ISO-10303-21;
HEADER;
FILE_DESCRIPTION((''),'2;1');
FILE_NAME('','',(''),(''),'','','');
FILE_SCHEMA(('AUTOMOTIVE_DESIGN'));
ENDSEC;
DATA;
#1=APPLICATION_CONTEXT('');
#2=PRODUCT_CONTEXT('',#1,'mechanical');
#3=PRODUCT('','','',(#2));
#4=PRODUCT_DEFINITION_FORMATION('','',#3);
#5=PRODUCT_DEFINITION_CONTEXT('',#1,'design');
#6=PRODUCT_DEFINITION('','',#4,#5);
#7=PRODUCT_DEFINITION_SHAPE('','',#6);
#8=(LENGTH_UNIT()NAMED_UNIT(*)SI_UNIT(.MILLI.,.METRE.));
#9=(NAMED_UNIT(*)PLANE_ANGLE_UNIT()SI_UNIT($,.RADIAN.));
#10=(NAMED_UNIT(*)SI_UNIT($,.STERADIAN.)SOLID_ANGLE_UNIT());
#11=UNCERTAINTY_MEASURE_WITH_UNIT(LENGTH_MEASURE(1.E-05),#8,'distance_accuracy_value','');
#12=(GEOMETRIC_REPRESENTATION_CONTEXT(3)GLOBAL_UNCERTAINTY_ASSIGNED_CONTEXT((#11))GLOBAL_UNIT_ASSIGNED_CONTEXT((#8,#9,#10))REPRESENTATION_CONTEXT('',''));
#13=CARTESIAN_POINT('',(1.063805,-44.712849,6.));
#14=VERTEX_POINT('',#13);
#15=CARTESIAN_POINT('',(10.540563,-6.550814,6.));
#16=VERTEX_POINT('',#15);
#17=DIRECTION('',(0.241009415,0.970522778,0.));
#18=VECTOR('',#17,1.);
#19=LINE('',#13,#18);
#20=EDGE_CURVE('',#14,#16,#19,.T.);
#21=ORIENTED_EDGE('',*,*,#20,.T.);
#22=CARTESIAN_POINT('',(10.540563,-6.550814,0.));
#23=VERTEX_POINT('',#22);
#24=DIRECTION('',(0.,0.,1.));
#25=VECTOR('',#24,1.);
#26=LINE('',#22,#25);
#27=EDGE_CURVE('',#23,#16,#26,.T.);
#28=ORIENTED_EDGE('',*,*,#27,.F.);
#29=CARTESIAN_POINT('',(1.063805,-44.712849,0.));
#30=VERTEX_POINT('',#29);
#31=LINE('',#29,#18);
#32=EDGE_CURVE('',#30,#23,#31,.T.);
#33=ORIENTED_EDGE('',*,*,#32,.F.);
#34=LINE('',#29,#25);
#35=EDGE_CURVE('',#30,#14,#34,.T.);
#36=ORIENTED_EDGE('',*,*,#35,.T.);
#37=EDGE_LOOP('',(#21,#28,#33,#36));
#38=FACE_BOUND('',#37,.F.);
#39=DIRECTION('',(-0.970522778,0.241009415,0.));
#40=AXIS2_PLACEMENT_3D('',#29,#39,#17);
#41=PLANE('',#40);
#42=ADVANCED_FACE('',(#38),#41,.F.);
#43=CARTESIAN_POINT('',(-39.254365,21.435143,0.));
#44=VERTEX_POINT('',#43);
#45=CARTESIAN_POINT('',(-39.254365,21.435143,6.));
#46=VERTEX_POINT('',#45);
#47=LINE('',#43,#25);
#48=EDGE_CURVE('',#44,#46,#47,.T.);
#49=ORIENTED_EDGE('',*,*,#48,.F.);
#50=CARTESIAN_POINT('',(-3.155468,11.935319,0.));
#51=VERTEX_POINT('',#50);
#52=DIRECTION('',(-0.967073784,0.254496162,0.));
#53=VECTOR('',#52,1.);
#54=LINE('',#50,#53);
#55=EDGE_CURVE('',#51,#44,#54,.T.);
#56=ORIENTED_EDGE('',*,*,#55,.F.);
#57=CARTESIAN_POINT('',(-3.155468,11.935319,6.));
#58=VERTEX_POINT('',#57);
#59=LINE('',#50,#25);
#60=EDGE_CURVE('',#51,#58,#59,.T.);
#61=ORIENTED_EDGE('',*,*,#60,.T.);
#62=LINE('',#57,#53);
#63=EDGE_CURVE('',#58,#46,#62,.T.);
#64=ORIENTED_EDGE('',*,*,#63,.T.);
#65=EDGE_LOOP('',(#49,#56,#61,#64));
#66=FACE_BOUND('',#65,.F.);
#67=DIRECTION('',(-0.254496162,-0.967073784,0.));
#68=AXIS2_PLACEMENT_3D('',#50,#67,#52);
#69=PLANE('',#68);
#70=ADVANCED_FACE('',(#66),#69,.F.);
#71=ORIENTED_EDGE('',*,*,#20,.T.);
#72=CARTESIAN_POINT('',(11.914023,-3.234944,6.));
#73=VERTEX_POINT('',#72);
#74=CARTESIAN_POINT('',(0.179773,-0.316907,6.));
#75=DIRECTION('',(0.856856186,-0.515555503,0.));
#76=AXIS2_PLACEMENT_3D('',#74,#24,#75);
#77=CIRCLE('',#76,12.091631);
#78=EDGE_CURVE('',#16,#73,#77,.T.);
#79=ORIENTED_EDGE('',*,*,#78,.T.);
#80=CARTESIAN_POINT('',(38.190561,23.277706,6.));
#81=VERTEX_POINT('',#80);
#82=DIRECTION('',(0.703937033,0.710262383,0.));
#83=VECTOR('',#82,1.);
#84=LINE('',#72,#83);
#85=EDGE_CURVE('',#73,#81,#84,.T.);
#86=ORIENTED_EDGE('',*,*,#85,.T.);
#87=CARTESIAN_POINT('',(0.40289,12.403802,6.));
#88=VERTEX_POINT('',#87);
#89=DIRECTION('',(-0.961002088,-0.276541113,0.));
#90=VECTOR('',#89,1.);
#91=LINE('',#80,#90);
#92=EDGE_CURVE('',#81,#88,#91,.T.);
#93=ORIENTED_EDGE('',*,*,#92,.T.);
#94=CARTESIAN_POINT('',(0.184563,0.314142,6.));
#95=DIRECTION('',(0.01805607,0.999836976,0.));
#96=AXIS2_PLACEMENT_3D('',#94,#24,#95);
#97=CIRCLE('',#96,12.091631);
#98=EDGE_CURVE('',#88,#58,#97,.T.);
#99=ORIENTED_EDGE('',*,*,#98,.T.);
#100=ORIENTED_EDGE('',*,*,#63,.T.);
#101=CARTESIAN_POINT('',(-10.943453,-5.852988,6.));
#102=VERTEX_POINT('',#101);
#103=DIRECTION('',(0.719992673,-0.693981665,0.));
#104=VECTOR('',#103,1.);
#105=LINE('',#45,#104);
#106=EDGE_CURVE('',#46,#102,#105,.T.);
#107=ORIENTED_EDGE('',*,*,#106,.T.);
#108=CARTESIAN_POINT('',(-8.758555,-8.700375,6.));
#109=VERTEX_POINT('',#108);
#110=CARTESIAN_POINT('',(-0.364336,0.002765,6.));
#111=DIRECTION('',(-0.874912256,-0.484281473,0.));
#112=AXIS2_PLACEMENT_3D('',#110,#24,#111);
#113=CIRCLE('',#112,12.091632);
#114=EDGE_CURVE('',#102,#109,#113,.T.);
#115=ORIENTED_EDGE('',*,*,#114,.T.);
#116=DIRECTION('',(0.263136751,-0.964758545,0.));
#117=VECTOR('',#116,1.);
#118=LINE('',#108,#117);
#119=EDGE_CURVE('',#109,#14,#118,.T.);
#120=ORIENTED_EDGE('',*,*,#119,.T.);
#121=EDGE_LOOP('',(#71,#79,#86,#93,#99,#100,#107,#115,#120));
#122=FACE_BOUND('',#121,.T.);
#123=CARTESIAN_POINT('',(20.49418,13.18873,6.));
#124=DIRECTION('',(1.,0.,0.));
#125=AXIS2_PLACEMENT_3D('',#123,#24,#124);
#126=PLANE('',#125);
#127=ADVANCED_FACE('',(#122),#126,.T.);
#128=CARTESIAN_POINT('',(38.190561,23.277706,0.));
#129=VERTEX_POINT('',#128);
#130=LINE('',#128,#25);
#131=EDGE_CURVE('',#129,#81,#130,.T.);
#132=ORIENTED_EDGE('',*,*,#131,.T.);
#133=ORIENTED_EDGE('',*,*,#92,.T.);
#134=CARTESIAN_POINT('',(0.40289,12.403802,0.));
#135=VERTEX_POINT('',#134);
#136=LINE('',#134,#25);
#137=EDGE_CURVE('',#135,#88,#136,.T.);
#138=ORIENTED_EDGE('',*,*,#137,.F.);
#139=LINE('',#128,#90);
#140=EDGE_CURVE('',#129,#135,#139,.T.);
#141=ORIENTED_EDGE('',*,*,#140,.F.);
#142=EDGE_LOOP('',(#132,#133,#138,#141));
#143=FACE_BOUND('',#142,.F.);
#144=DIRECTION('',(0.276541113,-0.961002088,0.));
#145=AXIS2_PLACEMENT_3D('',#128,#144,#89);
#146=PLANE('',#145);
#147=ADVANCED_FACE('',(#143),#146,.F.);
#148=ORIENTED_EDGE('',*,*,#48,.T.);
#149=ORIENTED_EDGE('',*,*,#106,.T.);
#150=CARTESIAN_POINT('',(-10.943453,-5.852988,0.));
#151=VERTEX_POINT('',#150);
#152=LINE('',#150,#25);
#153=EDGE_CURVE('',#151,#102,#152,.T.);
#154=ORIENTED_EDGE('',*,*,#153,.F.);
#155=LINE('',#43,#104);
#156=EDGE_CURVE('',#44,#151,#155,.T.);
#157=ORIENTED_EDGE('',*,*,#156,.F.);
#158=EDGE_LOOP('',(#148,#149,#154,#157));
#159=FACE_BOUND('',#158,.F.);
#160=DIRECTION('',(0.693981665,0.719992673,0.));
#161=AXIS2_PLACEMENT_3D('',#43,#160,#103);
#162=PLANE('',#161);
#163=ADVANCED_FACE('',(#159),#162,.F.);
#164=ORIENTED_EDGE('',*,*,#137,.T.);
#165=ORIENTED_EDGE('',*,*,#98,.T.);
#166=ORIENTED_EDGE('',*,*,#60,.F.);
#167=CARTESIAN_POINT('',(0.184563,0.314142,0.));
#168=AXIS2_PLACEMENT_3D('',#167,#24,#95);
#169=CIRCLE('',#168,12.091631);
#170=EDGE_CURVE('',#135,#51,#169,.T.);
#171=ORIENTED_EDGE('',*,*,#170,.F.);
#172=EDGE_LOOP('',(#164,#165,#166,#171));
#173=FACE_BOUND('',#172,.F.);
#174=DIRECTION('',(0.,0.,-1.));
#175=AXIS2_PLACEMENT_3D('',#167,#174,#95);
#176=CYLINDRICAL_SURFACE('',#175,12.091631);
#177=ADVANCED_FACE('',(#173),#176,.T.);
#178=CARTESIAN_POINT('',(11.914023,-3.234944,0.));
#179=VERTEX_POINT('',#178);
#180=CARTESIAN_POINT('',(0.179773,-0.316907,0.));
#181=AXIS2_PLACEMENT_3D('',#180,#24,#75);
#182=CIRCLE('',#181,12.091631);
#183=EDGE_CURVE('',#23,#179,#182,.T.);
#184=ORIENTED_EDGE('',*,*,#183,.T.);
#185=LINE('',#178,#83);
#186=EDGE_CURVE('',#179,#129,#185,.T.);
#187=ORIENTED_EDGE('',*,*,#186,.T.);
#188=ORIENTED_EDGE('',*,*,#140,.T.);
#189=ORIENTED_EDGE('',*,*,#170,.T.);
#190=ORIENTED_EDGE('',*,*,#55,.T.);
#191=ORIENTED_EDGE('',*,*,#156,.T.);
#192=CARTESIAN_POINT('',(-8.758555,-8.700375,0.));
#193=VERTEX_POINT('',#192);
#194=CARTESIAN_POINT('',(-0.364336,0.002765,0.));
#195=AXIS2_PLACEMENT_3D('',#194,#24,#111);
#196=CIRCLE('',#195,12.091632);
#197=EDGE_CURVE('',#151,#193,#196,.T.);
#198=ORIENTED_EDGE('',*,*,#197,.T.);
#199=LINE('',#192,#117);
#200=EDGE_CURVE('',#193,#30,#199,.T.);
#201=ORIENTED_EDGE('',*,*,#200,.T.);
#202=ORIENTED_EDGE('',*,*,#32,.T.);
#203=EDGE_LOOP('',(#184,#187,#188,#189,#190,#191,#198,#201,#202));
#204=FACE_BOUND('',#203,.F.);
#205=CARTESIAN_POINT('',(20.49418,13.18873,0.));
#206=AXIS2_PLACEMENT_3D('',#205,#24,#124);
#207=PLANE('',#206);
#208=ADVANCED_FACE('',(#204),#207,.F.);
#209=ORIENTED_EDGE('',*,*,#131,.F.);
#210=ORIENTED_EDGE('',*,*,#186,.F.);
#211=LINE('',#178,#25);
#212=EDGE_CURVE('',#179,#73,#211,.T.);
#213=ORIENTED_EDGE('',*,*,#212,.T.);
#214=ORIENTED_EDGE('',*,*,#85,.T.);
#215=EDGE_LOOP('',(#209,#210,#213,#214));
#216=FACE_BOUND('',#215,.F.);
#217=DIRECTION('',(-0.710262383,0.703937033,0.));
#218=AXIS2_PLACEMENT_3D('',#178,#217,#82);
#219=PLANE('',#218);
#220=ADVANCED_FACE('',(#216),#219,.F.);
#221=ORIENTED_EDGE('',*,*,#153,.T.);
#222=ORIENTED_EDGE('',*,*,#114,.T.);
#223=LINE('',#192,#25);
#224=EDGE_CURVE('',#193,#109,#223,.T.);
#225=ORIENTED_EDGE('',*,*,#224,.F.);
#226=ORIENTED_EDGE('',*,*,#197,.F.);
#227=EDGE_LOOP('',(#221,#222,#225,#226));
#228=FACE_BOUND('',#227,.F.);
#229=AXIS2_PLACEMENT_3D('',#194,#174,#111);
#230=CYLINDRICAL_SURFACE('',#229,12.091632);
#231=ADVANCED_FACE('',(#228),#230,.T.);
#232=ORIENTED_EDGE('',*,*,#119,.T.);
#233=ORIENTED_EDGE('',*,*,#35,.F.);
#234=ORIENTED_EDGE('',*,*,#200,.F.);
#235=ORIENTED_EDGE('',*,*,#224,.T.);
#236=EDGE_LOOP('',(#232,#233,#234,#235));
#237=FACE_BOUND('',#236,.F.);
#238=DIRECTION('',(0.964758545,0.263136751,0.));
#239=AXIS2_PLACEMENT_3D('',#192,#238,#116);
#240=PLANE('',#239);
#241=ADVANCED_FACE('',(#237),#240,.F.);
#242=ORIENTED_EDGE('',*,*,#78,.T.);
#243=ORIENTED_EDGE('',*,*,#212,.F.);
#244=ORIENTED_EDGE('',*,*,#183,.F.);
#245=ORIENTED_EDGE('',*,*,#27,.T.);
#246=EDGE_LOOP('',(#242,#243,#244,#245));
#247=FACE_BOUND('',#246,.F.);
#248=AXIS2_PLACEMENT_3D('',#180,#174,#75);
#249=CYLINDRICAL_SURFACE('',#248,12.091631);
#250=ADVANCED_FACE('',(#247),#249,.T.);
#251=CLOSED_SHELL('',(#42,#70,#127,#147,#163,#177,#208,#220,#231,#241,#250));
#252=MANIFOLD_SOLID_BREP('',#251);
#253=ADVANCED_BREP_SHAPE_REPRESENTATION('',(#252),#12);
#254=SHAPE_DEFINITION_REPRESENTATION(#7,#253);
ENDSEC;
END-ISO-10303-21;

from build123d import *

# Parameters (mm, degrees)
F1_DEPTH = 6


with BuildPart() as f1:
    # F0 (on Top) → F1 (new body)
    with BuildSketch(Plane.XY):
        with BuildLine():
            ThreePointArc((0.4028900985, 12.4038021196), (2.5709266159, 12.1679521994), (4.6613367434, 11.5465078941))
            Line((4.6613367434, 11.5465078941), (27.7654736656, 20.0070271084))
            Line((27.7654736656, 20.0070271084), (18.6411851954, 12.0324539382))
            Line((18.6411851954, 12.0324539382), (29.9736770552, 16.1823066442))
            Line((29.9736770552, 16.1823066442), (12.269739771, 0.709172083))
            ThreePointArc((12.269739771, 0.709172083), (12.2734322165, 0.5725746976), (12.2755807666, 0.4359443072))
            ThreePointArc((12.2755807666, 0.4359443072), (12.2760408839, 0.3750438497), (12.2761942576, 0.3141418472))
            ThreePointArc((12.2761942576, 0.3141418472), (12.2744790315, 0.1104832554), (12.2693338398, -0.0931175575))
            ThreePointArc((12.2693338398, -0.0931175575), (12.2708871547, -0.2050074672), (12.2714049411, -0.3169069604))
            ThreePointArc((12.2714049411, -0.3169069604), (12.1817268997, -1.786827199), (11.9140229769, -3.2349439997))
            Line((11.9140229769, -3.2349439997), (38.1905606473, 23.2777061292))
            Line((38.1905606473, 23.2777061292), (0.4028900985, 12.4038021196))
        make_face()
        with BuildLine():
            Line((27.7654736656, 20.0070271084), (4.6613367434, 11.5465078941))
            ThreePointArc((4.6613367434, 11.5465078941), (10.0808508039, 7.2618778264), (12.269739771, 0.709172083))
            Line((12.269739771, 0.709172083), (29.9736770552, 16.1823066442))
            Line((29.9736770552, 16.1823066442), (18.6411851954, 12.0324539382))
            Line((18.6411851954, 12.0324539382), (27.7654736656, 20.0070271084))
        make_face()
        with BuildLine():
            Line((3.4438568973, -34.0491190968), (7.6689007896, -9.8100899824))
            ThreePointArc((7.6689007896, -9.8100899824), (1.2485452749, -12.3612118011), (-5.520708846, -10.980492381))
            Line((-5.520708846, -10.980492381), (-0.9725498819, -34.0491190968))
            Line((-0.9725498819, -34.0491190968), (1.0998181826, -22.159966905))
            Line((1.0998181826, -22.159966905), (3.4438568973, -34.0491190968))
        make_face()
        with BuildLine():
            ThreePointArc((-12.3302375329, -1.7364179117), (-11.3293960788, 5.0993339748), (-6.749030925, 10.271320298))
            Line((-6.749030925, 10.271320298), (-29.0011271733, 17.8668124526))
            Line((-29.0011271733, 17.8668124526), (-19.7410033781, 10.1275129668))
            Line((-19.7410033781, 10.1275129668), (-31.2093305629, 14.0420919883))
            Line((-31.2093305629, 14.0420919883), (-12.3302375329, -1.7364179117))
        make_face()
        with BuildLine():
            ThreePointArc((10.6356638011, 0.0027651132), (9.2601354167, 5.3290721002), (5.4775645066, 9.3232906427))
            ThreePointArc((5.4775645066, 9.3232906427), (4.2590097093, 9.8987590223), (2.9792313185, 10.3209046376))
            ThreePointArc((2.9792313185, 10.3209046376), (2.4541666957, 10.4453946208), (1.9236286682, 10.5439847593))
            ThreePointArc((1.9236286682, 10.5439847593), (-6.8022401005, 8.1831805041), (-10.8129887968, 0.0820646923))
            ThreePointArc((-10.8129887968, 0.0820646923), (-10.702081647, -1.260968817), (-10.4277813138, -2.5803621359))
            ThreePointArc((-10.4277813138, -2.5803621359), (-10.2730604705, -3.0973265194), (-10.0931729928, -3.6060810855))
            ThreePointArc((-10.0931729928, -3.6060810855), (-3.68572215, -9.9825029817), (5.3354242901, -9.405355335))
            ThreePointArc((5.3354242901, -9.405355335), (6.4430719465, -8.6377900971), (7.4485499862, -7.7405422847))
            ThreePointArc((7.4485499862, -7.7405422847), (7.8188937649, -7.3480679932), (8.1695443246, -6.9379036738))
            ThreePointArc((8.1695443246, -6.9379036738), (10.0008142042, -3.6801219501), (10.6356638011, 0.0027651132))
        make_face()
        with BuildLine():
            ThreePointArc((-6.5153292279, 10.4129926365), (-6.2860944668, 10.5450765934), (-6.0540247496, 10.6721135715))
            ThreePointArc((-6.0540247496, 10.6721135715), (-4.6462138612, 11.3988678062), (-3.1554678048, 11.9353185591))
            Line((-3.1554678048, 11.9353185591), (-39.2543651733, 21.4351426407))
            Line((-39.2543651733, 21.4351426407), (-10.9434527883, -5.8529879996))
            ThreePointArc((-10.9434527883, -5.8529879996), (-11.8232190246, -3.8574883391), (-12.3302375329, -1.7364179117))
            Line((-12.3302375329, -1.7364179117), (-31.2093305629, 14.0420919883))
            Line((-31.2093305629, 14.0420919883), (-19.7410033781, 10.1275129668))
            Line((-19.7410033781, 10.1275129668), (-29.0011271733, 17.8668124526))
            Line((-29.0011271733, 17.8668124526), (-6.749030925, 10.271320298))
            ThreePointArc((-6.749030925, 10.271320298), (-6.6325803419, 10.3428167423), (-6.5153292279, 10.4129926365))
        make_face()
        with BuildLine():
            ThreePointArc((-8.8525103113, -8.3558995928), (-9.5275626565, -7.5262882248), (-10.1266632902, -6.6402695335))
            Line((-10.1266632902, -6.6402695335), (-10.9434527883, -5.8529879996))
            ThreePointArc((-10.9434527883, -5.8529879996), (-9.9572381658, -7.3581984231), (-8.758555172, -8.7003745594))
            Line((-8.758555172, -8.7003745594), (-8.8525103113, -8.3558995928))
        make_face()
        with BuildLine():
            ThreePointArc((10.5405626898, -6.55081412), (9.2522924087, -8.3104638603), (7.6689007896, -9.8100899824))
            Line((7.6689007896, -9.8100899824), (3.4438568973, -34.0491190968))
            Line((3.4438568973, -34.0491190968), (1.0998181826, -22.159966905))
            Line((1.0998181826, -22.159966905), (-0.9725498819, -34.0491190968))
            Line((-0.9725498819, -34.0491190968), (-5.520708846, -10.980492381))
            ThreePointArc((-5.520708846, -10.980492381), (-5.6408518746, -10.9153914399), (-5.7602515386, -10.8489369436))
            ThreePointArc((-5.7602515386, -10.8489369436), (-5.9892569814, -10.7164557955), (-6.2153090902, -10.5789960141))
            ThreePointArc((-6.2153090902, -10.5789960141), (-7.5486021639, -9.7231731384), (-8.758555172, -8.7003745594))
            Line((-8.758555172, -8.7003745594), (1.063804526, -44.7128487699))
            Line((1.063804526, -44.7128487699), (10.5405626898, -6.55081412))
        make_face()
        with BuildLine():
            Line((-9.7600062572, -5.0286772803), (-10.1642111321, -3.546709802))
            Line((-10.1642111321, -3.546709802), (-10.3919691545, -3.3563573203))
            ThreePointArc((-10.3919691545, -3.3563573203), (-10.1100176265, -4.2053770686), (-9.7600062572, -5.0286772803))
        make_face()
        with BuildLine():
            ThreePointArc((-11.7489151685, 2.2634127141), (-10.0376335343, 6.7727992383), (-6.699900485, 10.2545501984))
            Line((-6.699900485, 10.2545501984), (-6.749030925, 10.271320298))
            ThreePointArc((-6.749030925, 10.271320298), (-11.3293960788, 5.0993339748), (-12.3302375329, -1.7364179117))
            Line((-12.3302375329, -1.7364179117), (-11.7626156156, -2.2108171864))
            ThreePointArc((-11.7626156156, -2.2108171864), (-11.8887787297, -1.0636337019), (-11.9049976409, 0.0903524443))
            ThreePointArc((-11.9049976409, 0.0903524443), (-11.8759986025, 1.1804050896), (-11.7489151685, 2.2634127141))
        make_face()
        with BuildLine():
            Line((5.0125747281, -10.1984064277), (6.5174877996, -8.6799706946))
            ThreePointArc((6.5174877996, -8.6799706946), (5.9378995495, -9.0613109824), (5.3354242901, -9.405355335))
            ThreePointArc((5.3354242901, -9.405355335), (-0.132259044, -10.9947864413), (-5.6621272644, -9.6374324899))
            ThreePointArc((-5.6621272644, -9.6374324899), (-0.3974988939, -11.3017490918), (5.0125747281, -10.1984064277))
        make_face()
        with BuildLine():
            ThreePointArc((-5.6621272644, -9.6374324899), (-0.132259044, -10.9947864413), (5.3354242901, -9.405355335))
            ThreePointArc((5.3354242901, -9.405355335), (-3.68572215, -9.9825029817), (-10.0931729928, -3.6060810855))
            Line((-10.0931729928, -3.6060810855), (-10.1642111321, -3.546709802))
            Line((-10.1642111321, -3.546709802), (-9.7600062572, -5.0286772803))
            ThreePointArc((-9.7600062572, -5.0286772803), (-8.0406593478, -7.6261124412), (-5.6621272644, -9.6374324899))
        make_face()
        with BuildLine():
            ThreePointArc((6.3257916804, 9.4402202667), (9.8941847419, 5.4835945189), (11.1845627577, 0.3141418472))
            ThreePointArc((11.1845627577, 0.3141418472), (11.1827531684, 0.1146231984), (11.1773249957, -0.0848298055))
            ThreePointArc((11.1773249957, -0.0848298055), (11.1791613128, -0.2008619253), (11.1797734412, -0.3169069604))
            ThreePointArc((11.1797734412, -0.3169069604), (10.9074871997, -2.7492222186), (10.1041084384, -5.0611218442))
            Line((10.1041084384, -5.0611218442), (10.9828153628, -4.1745191439))
            ThreePointArc((10.9828153628, -4.1745191439), (11.5397204119, -2.1187882177), (11.727295301, 0.0027651132))
            ThreePointArc((11.727295301, 0.0027651132), (11.726746492, 0.1179679372), (11.7251001149, 0.2331603037))
            ThreePointArc((11.7251001149, 0.2331603037), (10.5973308535, 5.1066271569), (7.5935382455, 9.1065987374))
            Line((7.5935382455, 9.1065987374), (6.3257916804, 9.4402202667))
        make_face()
        with BuildLine():
            ThreePointArc((5.8742513084, -10.3552066112), (4.9976095842, -10.7782939798), (4.0897767259, -11.1294963939))
            Line((4.0897767259, -11.1294963939), (3.9142846746, -11.3065653599))
            ThreePointArc((3.9142846746, -11.3065653599), (4.9157385069, -10.8751190299), (5.8742513084, -10.3552066112))
        make_face()
        with BuildLine():
            ThreePointArc((11.6626764745, -3.4885490204), (11.2817381271, -4.4879671843), (10.8139737491, -5.4498128981))
            Line((10.8139737491, -5.4498128981), (10.5405626898, -6.55081412))
            ThreePointArc((10.5405626898, -6.55081412), (11.3510058434, -4.9441219916), (11.9140229769, -3.2349439997))
            Line((11.9140229769, -3.2349439997), (11.6626764745, -3.4885490204))
        make_face()
        with BuildLine():
            Line((7.6689007896, -9.8100899824), (7.7959316544, -9.0813153449))
            ThreePointArc((7.7959316544, -9.0813153449), (6.865523171, -9.764167549), (5.8742513084, -10.3552066112))
            ThreePointArc((5.8742513084, -10.3552066112), (4.9157385069, -10.8751190299), (3.9142846746, -11.3065653599))
            ThreePointArc((3.9142846746, -11.3065653599), (-0.8465994279, -12.0792452537), (-5.5307507336, -10.929559122))
            Line((-5.5307507336, -10.929559122), (-5.520708846, -10.980492381))
            ThreePointArc((-5.520708846, -10.980492381), (1.2485452749, -12.3612118011), (7.6689007896, -9.8100899824))
        make_face()
        with BuildLine():
            Line((-5.5307507336, -10.929559122), (-5.6606273112, -10.2708147133))
            ThreePointArc((-5.6606273112, -10.2708147133), (-7.5163167375, -9.0080900384), (-9.1066473086, -7.4241375373))
            Line((-9.1066473086, -7.4241375373), (-9.0329015858, -7.6945171633))
            Line((-9.0329015858, -7.6945171633), (-5.8270392256, -10.7845620799))
            ThreePointArc((-5.8270392256, -10.7845620799), (-5.6793894507, -10.8580710084), (-5.5307507336, -10.929559122))
        make_face()
        with BuildLine():
            Line((-10.7758190254, -1.304324656), (-11.3383664085, 0.758186161))
            ThreePointArc((-11.3383664085, 0.758186161), (-11.3123004869, -1.0659153578), (-10.9851179751, -2.8606235198))
            Line((-10.9851179751, -2.8606235198), (-10.3919691545, -3.3563573203))
            ThreePointArc((-10.3919691545, -3.3563573203), (-10.6326845696, -2.3394676554), (-10.7758190254, -1.304324656))
        make_face()
        with BuildLine():
            ThreePointArc((-5.5151977313, 9.7222622954), (-3.1835062565, 10.7858232363), (-0.6689941305, 11.2809755123))
            Line((-0.6689941305, 11.2809755123), (-1.8761680541, 11.5986566812))
            ThreePointArc((-1.8761680541, 11.5986566812), (-4.0430764441, 11.0133662568), (-6.0644728036, 10.0376544095))
            ThreePointArc((-6.0644728036, 10.0376544095), (-9.7211342723, 6.6242441529), (-11.6833149714, 2.0228976565))
            Line((-11.6833149714, 2.0228976565), (-11.3383664085, 0.758186161))
            ThreePointArc((-11.3383664085, 0.758186161), (-9.5888523737, 5.995118686), (-5.5151977313, 9.7222622954))
        make_face()
        with BuildLine():
            Line((7.8293850735, -8.8893934571), (7.9699316263, -8.0830794701))
            ThreePointArc((7.9699316263, -8.0830794701), (6.5792600216, -9.263781918), (5.0125747281, -10.1984064277))
            Line((5.0125747281, -10.1984064277), (4.0897767259, -11.1294963939))
            ThreePointArc((4.0897767259, -11.1294963939), (4.9976095842, -10.7782939798), (5.8742513084, -10.3552066112))
            ThreePointArc((5.8742513084, -10.3552066112), (6.8889414208, -9.6718158131), (7.8293850735, -8.8893934571))
        make_face()
        with BuildLine():
            ThreePointArc((-1.8761680541, 11.5986566812), (0.9760018676, 11.7484804193), (3.7837480213, 11.2251430982))
            Line((3.7837480213, 11.2251430982), (3.9666839612, 11.2921325313))
            ThreePointArc((3.9666839612, 11.2921325313), (1.6790161925, 11.9204940635), (-0.6873104589, 12.0900824316))
            Line((-0.6873104589, 12.0900824316), (-2.1471965404, 11.6699808248))
            Line((-2.1471965404, 11.6699808248), (-1.8761680541, 11.5986566812))
        make_face()
        with BuildLine():
            ThreePointArc((-10.8129887968, 0.0820646923), (-9.4556348454, 5.6119329127), (-5.5151977313, 9.7222622954))
            ThreePointArc((-5.5151977313, 9.7222622954), (-9.5888523737, 5.995118686), (-11.3383664085, 0.758186161))
            Line((-11.3383664085, 0.758186161), (-10.7758190254, -1.304324656))
            ThreePointArc((-10.7758190254, -1.304324656), (-10.8162752771, -0.6117163638), (-10.8129887968, 0.0820646923))
        make_face()
        with BuildLine():
            Line((10.9828153628, -4.1745191439), (10.1041084384, -5.0611218442))
            ThreePointArc((10.1041084384, -5.0611218442), (9.1649765079, -6.6624664984), (7.9699316263, -8.0830794701))
            Line((7.9699316263, -8.0830794701), (7.8293850735, -8.8893934571))
            ThreePointArc((7.8293850735, -8.8893934571), (9.6864815652, -6.7194826211), (10.9828153628, -4.1745191439))
        make_face()
        with BuildLine():
            ThreePointArc((-9.1066473086, -7.4241375373), (-10.6624834328, -5.0289977982), (-11.6131330948, -2.3357496411))
            Line((-11.6131330948, -2.3357496411), (-11.7626156156, -2.2108171864))
            ThreePointArc((-11.7626156156, -2.2108171864), (-11.1629587809, -4.5061763557), (-10.1266632902, -6.6402695335))
            Line((-10.1266632902, -6.6402695335), (-9.0329015858, -7.6945171633))
            Line((-9.0329015858, -7.6945171633), (-9.1066473086, -7.4241375373))
        make_face()
        with BuildLine():
            ThreePointArc((0.5250408565, 10.966752), (-2.5840774323, 10.776471479), (-5.5151977313, 9.7222622954))
            ThreePointArc((-5.5151977313, 9.7222622954), (-9.4556348454, 5.6119329127), (-10.8129887968, 0.0820646923))
            ThreePointArc((-10.8129887968, 0.0820646923), (-6.8022401005, 8.1831805041), (1.9236286682, 10.5439847593))
            Line((1.9236286682, 10.5439847593), (2.0105647776, 10.5758199508))
            Line((2.0105647776, 10.5758199508), (0.5250408565, 10.966752))
        make_face()
        with BuildLine():
            ThreePointArc((3.9666839612, 11.2921325313), (5.0232555587, 10.8278012509), (6.0307463325, 10.2648541669))
            ThreePointArc((6.0307463325, 10.2648541669), (6.9602600956, 9.6947139402), (7.8346304939, 9.0431526458))
            ThreePointArc((7.8346304939, 9.0431526458), (10.8842329623, 5.3064460155), (12.2306512187, 0.6750089237))
            Line((12.2306512187, 0.6750089237), (12.269739771, 0.709172083))
            ThreePointArc((12.269739771, 0.709172083), (10.0808508039, 7.2618778264), (4.6613367434, 11.5465078941))
            Line((4.6613367434, 11.5465078941), (3.9666839612, 11.2921325313))
        make_face()
        with BuildLine():
            Line((7.4485499862, -7.7405422847), (8.1536463545, -7.0291101488))
            Line((8.1536463545, -7.0291101488), (8.1695443246, -6.9379036738))
            ThreePointArc((8.1695443246, -6.9379036738), (7.8188937649, -7.3480679932), (7.4485499862, -7.7405422847))
        make_face()
        with BuildLine():
            Line((-2.8101661632, 11.8444486132), (-2.1471965404, 11.6699808248))
            Line((-2.1471965404, 11.6699808248), (-0.6873104589, 12.0900824316))
            ThreePointArc((-0.6873104589, 12.0900824316), (-1.7541754707, 12.0142554091), (-2.8101661632, 11.8444486132))
        make_face()
        with BuildLine():
            Line((7.8346304939, 9.0431526458), (7.5935382455, 9.1065987374))
            ThreePointArc((7.5935382455, 9.1065987374), (10.5973308535, 5.1066271569), (11.7251001149, 0.2331603037))
            Line((11.7251001149, 0.2331603037), (12.2306512187, 0.6750089237))
            ThreePointArc((12.2306512187, 0.6750089237), (10.8842329623, 5.3064460155), (7.8346304939, 9.0431526458))
        make_face()
        with BuildLine():
            Line((2.2892938737, 10.6778879433), (3.0151863487, 10.9437029899))
            ThreePointArc((3.0151863487, 10.9437029899), (1.1873769855, 11.2683357301), (-0.6689941305, 11.2809755123))
            Line((-0.6689941305, 11.2809755123), (0.5250408565, 10.966752))
            ThreePointArc((0.5250408565, 10.966752), (1.4130454394, 10.8582206316), (2.2892938737, 10.6778879433))
        make_face()
        with BuildLine():
            Line((-5.520708846, -10.980492381), (-5.5307507336, -10.929559122))
            ThreePointArc((-5.5307507336, -10.929559122), (-5.6793894507, -10.8580710084), (-5.8270392256, -10.7845620799))
            Line((-5.8270392256, -10.7845620799), (-5.7602515386, -10.8489369436))
            ThreePointArc((-5.7602515386, -10.8489369436), (-5.6408518746, -10.9153914399), (-5.520708846, -10.980492381))
        make_face()
        with BuildLine():
            ThreePointArc((-10.9851179751, -2.8606235198), (-11.3123004869, -1.0659153578), (-11.3383664085, 0.758186161))
            Line((-11.3383664085, 0.758186161), (-11.6833149714, 2.0228976565))
            ThreePointArc((-11.6833149714, 2.0228976565), (-11.833081188, 1.0610901318), (-11.9049976409, 0.0903524443))
            ThreePointArc((-11.9049976409, 0.0903524443), (-11.8205089053, -1.1300903691), (-11.6131330948, -2.3357496411))
            Line((-11.6131330948, -2.3357496411), (-10.9851179751, -2.8606235198))
        make_face()
        with BuildLine():
            Line((12.2755807666, 0.4359443072), (12.2532243427, 0.3459170418))
            ThreePointArc((12.2532243427, 0.3459170418), (12.2632732081, 0.1264729123), (12.2693338398, -0.0931175575))
            ThreePointArc((12.2693338398, -0.0931175575), (12.2744790315, 0.1104832554), (12.2761942576, 0.3141418472))
            ThreePointArc((12.2761942576, 0.3141418472), (12.2760408839, 0.3750438497), (12.2755807666, 0.4359443072))
        make_face()
        with BuildLine():
            ThreePointArc((-10.1266632902, -6.6402695335), (-11.1629587809, -4.5061763557), (-11.7626156156, -2.2108171864))
            Line((-11.7626156156, -2.2108171864), (-12.3302375329, -1.7364179117))
            ThreePointArc((-12.3302375329, -1.7364179117), (-11.8232190246, -3.8574883391), (-10.9434527883, -5.8529879996))
            Line((-10.9434527883, -5.8529879996), (-10.1266632902, -6.6402695335))
        make_face()
        with BuildLine():
            ThreePointArc((5.4775645066, 9.3232906427), (4.8783757276, 9.6730273462), (4.2583312258, 9.9842953506))
            Line((4.2583312258, 9.9842953506), (2.9792313185, 10.3209046376))
            ThreePointArc((2.9792313185, 10.3209046376), (4.2590097093, 9.8987590223), (5.4775645066, 9.3232906427))
        make_face()
        with BuildLine():
            ThreePointArc((10.8139737491, -5.4498128981), (9.4839425885, -7.4143177078), (7.7959316544, -9.0813153449))
            Line((7.7959316544, -9.0813153449), (7.6689007896, -9.8100899824))
            ThreePointArc((7.6689007896, -9.8100899824), (9.2522924087, -8.3104638603), (10.5405626898, -6.55081412))
            Line((10.5405626898, -6.55081412), (10.8139737491, -5.4498128981))
        make_face()
        with BuildLine():
            Line((-5.8270392256, -10.7845620799), (-9.0329015858, -7.6945171633))
            Line((-9.0329015858, -7.6945171633), (-8.8525103113, -8.3558995928))
            ThreePointArc((-8.8525103113, -8.3558995928), (-7.6135857215, -9.5619653858), (-6.2153090902, -10.5789960141))
            ThreePointArc((-6.2153090902, -10.5789960141), (-6.0221078491, -10.6835425879), (-5.8270392256, -10.7845620799))
        make_face()
        with BuildLine():
            ThreePointArc((11.1773249957, -0.0848298055), (11.1827531684, 0.1146231984), (11.1845627577, 0.3141418472))
            ThreePointArc((11.1845627577, 0.3141418472), (9.8941847419, 5.4835945189), (6.3257916804, 9.4402202667))
            Line((6.3257916804, 9.4402202667), (4.2583312258, 9.9842953506))
            ThreePointArc((4.2583312258, 9.9842953506), (4.8783757276, 9.6730273462), (5.4775645066, 9.3232906427))
            ThreePointArc((5.4775645066, 9.3232906427), (9.5878938894, 5.3828535287), (11.1773249957, -0.0848298055))
        make_face()
        with BuildLine():
            Line((-8.8525103113, -8.3558995928), (-8.758555172, -8.7003745594))
            ThreePointArc((-8.758555172, -8.7003745594), (-7.5486021639, -9.7231731384), (-6.2153090902, -10.5789960141))
            ThreePointArc((-6.2153090902, -10.5789960141), (-7.6135857215, -9.5619653858), (-8.8525103113, -8.3558995928))
        make_face()
        with BuildLine():
            ThreePointArc((9.2349654007, -5.9380747197), (10.6247367801, -3.1503590378), (11.1773249957, -0.0848298055))
            ThreePointArc((11.1773249957, -0.0848298055), (9.5878938894, 5.3828535287), (5.4775645066, 9.3232906427))
            ThreePointArc((5.4775645066, 9.3232906427), (9.2601354167, 5.3290721002), (10.6356638011, 0.0027651132))
            ThreePointArc((10.6356638011, 0.0027651132), (10.0008142042, -3.6801219501), (8.1695443246, -6.9379036738))
            Line((8.1695443246, -6.9379036738), (8.1536463545, -7.0291101488))
            Line((8.1536463545, -7.0291101488), (9.2349654007, -5.9380747197))
        make_face()
        with BuildLine():
            ThreePointArc((-9.4351143079, -6.2198536681), (-7.7490437951, -8.1499089094), (-5.6621272644, -9.6374324899))
            ThreePointArc((-5.6621272644, -9.6374324899), (-8.0406593478, -7.6261124412), (-9.7600062572, -5.0286772803))
            Line((-9.7600062572, -5.0286772803), (-9.4351143079, -6.2198536681))
        make_face()
        with BuildLine():
            Line((7.9699316263, -8.0830794701), (8.1026752808, -7.321530623))
            ThreePointArc((8.1026752808, -7.321530623), (7.3423807057, -8.03844112), (6.5174877996, -8.6799706946))
            Line((6.5174877996, -8.6799706946), (5.0125747281, -10.1984064277))
            ThreePointArc((5.0125747281, -10.1984064277), (6.5792600216, -9.263781918), (7.9699316263, -8.0830794701))
        make_face()
        with BuildLine():
            Line((7.7959316544, -9.0813153449), (7.8293850735, -8.8893934571))
            ThreePointArc((7.8293850735, -8.8893934571), (6.8889414208, -9.6718158131), (5.8742513084, -10.3552066112))
            ThreePointArc((5.8742513084, -10.3552066112), (6.865523171, -9.764167549), (7.7959316544, -9.0813153449))
        make_face()
        with BuildLine():
            ThreePointArc((-11.6131330948, -2.3357496411), (-11.8205089053, -1.1300903691), (-11.9049976409, 0.0903524443))
            ThreePointArc((-11.9049976409, 0.0903524443), (-11.8887787297, -1.0636337019), (-11.7626156156, -2.2108171864))
            Line((-11.7626156156, -2.2108171864), (-11.6131330948, -2.3357496411))
        make_face()
        with BuildLine():
            ThreePointArc((3.0151863487, 10.9437029899), (4.7330404653, 10.3296972758), (6.3257916804, 9.4402202667))
            Line((6.3257916804, 9.4402202667), (7.5935382455, 9.1065987374))
            ThreePointArc((7.5935382455, 9.1065987374), (6.8354716039, 9.717203848), (6.0307463325, 10.2648541669))
            ThreePointArc((6.0307463325, 10.2648541669), (4.9315674845, 10.8019061822), (3.7837480213, 11.2251430982))
            Line((3.7837480213, 11.2251430982), (3.0151863487, 10.9437029899))
        make_face()
        with BuildLine():
            Line((-6.4261851171, 10.4386450381), (-2.1471965404, 11.6699808248))
            Line((-2.1471965404, 11.6699808248), (-2.8101661632, 11.8444486132))
            ThreePointArc((-2.8101661632, 11.8444486132), (-4.4741120735, 11.3745413416), (-6.0540247496, 10.6721135715))
            ThreePointArc((-6.0540247496, 10.6721135715), (-6.241165359, 10.5570696756), (-6.4261851171, 10.4386450381))
        make_face()
        with BuildLine():
            ThreePointArc((-11.6833149714, 2.0228976565), (-9.7211342723, 6.6242441529), (-6.0644728036, 10.0376544095))
            Line((-6.0644728036, 10.0376544095), (-6.699900485, 10.2545501984))
            ThreePointArc((-6.699900485, 10.2545501984), (-10.0376335343, 6.7727992383), (-11.7489151685, 2.2634127141))
            Line((-11.7489151685, 2.2634127141), (-11.6833149714, 2.0228976565))
        make_face()
        with BuildLine():
            Line((-5.7602515386, -10.8489369436), (-5.8270392256, -10.7845620799))
            ThreePointArc((-5.8270392256, -10.7845620799), (-6.0221078491, -10.6835425879), (-6.2153090902, -10.5789960141))
            ThreePointArc((-6.2153090902, -10.5789960141), (-5.9892569814, -10.7164557955), (-5.7602515386, -10.8489369436))
        make_face()
        with BuildLine():
            Line((2.0105647776, 10.5758199508), (2.2892938737, 10.6778879433))
            ThreePointArc((2.2892938737, 10.6778879433), (1.4130454394, 10.8582206316), (0.5250408565, 10.966752))
            Line((0.5250408565, 10.966752), (2.0105647776, 10.5758199508))
        make_face()
        with BuildLine():
            Line((-10.1642111321, -3.546709802), (-10.4277813138, -2.5803621359))
            Line((-10.4277813138, -2.5803621359), (-10.7758190254, -1.304324656))
            ThreePointArc((-10.7758190254, -1.304324656), (-10.6326845696, -2.3394676554), (-10.3919691545, -3.3563573203))
            Line((-10.3919691545, -3.3563573203), (-10.1642111321, -3.546709802))
        make_face()
        with BuildLine():
            Line((3.9666839612, 11.2921325313), (3.7837480213, 11.2251430982))
            ThreePointArc((3.7837480213, 11.2251430982), (4.9315674845, 10.8019061822), (6.0307463325, 10.2648541669))
            ThreePointArc((6.0307463325, 10.2648541669), (5.0232555587, 10.8278012509), (3.9666839612, 11.2921325313))
        make_face()
        with BuildLine():
            ThreePointArc((1.9236286682, 10.5439847593), (2.4541666957, 10.4453946208), (2.9792313185, 10.3209046376))
            Line((2.9792313185, 10.3209046376), (2.0105647776, 10.5758199508))
            Line((2.0105647776, 10.5758199508), (1.9236286682, 10.5439847593))
        make_face()
        with BuildLine():
            ThreePointArc((-6.699900485, 10.2545501984), (-6.563670604, 10.3475310465), (-6.4261851171, 10.4386450381))
            Line((-6.4261851171, 10.4386450381), (-6.5153292279, 10.4129926365))
            ThreePointArc((-6.5153292279, 10.4129926365), (-6.6325803419, 10.3428167423), (-6.749030925, 10.271320298))
            Line((-6.749030925, 10.271320298), (-6.699900485, 10.2545501984))
        make_face()
        with BuildLine():
            ThreePointArc((-0.6873104589, 12.0900824316), (1.6790161925, 11.9204940635), (3.9666839612, 11.2921325313))
            Line((3.9666839612, 11.2921325313), (4.6613367434, 11.5465078941))
            ThreePointArc((4.6613367434, 11.5465078941), (2.5709266159, 12.1679521994), (0.4028900985, 12.4038021196))
            Line((0.4028900985, 12.4038021196), (-0.6873104589, 12.0900824316))
        make_face()
        with BuildLine():
            Line((12.269739771, 0.709172083), (12.2306512187, 0.6750089237))
            ThreePointArc((12.2306512187, 0.6750089237), (12.2430600547, 0.5105399619), (12.2532243427, 0.3459170418))
            Line((12.2532243427, 0.3459170418), (12.2755807666, 0.4359443072))
            ThreePointArc((12.2755807666, 0.4359443072), (12.2734322165, 0.5725746976), (12.269739771, 0.709172083))
        make_face()
        with BuildLine():
            Line((3.9142846746, -11.3065653599), (4.0897767259, -11.1294963939))
            ThreePointArc((4.0897767259, -11.1294963939), (-0.8761965812, -11.7308713099), (-5.6606273112, -10.2708147133))
            Line((-5.6606273112, -10.2708147133), (-5.5307507336, -10.929559122))
            ThreePointArc((-5.5307507336, -10.929559122), (-0.8465994279, -12.0792452537), (3.9142846746, -11.3065653599))
        make_face()
        with BuildLine():
            Line((0.5250408565, 10.966752), (-0.6689941305, 11.2809755123))
            ThreePointArc((-0.6689941305, 11.2809755123), (-3.1835062565, 10.7858232363), (-5.5151977313, 9.7222622954))
            ThreePointArc((-5.5151977313, 9.7222622954), (-2.5840774323, 10.776471479), (0.5250408565, 10.966752))
        make_face()
        with BuildLine():
            ThreePointArc((-10.4277813138, -2.5803621359), (-10.702081647, -1.260968817), (-10.8129887968, 0.0820646923))
            ThreePointArc((-10.8129887968, 0.0820646923), (-10.8162752771, -0.6117163638), (-10.7758190254, -1.304324656))
            Line((-10.7758190254, -1.304324656), (-10.4277813138, -2.5803621359))
        make_face()
        with BuildLine():
            ThreePointArc((5.3354242901, -9.405355335), (5.9378995495, -9.0613109824), (6.5174877996, -8.6799706946))
            Line((6.5174877996, -8.6799706946), (7.4485499862, -7.7405422847))
            ThreePointArc((7.4485499862, -7.7405422847), (6.4430719465, -8.6377900971), (5.3354242901, -9.405355335))
        make_face()
        with BuildLine():
            ThreePointArc((8.1026752808, -7.321530623), (8.6969721872, -6.652843563), (9.2349654007, -5.9380747197))
            Line((9.2349654007, -5.9380747197), (8.1536463545, -7.0291101488))
            Line((8.1536463545, -7.0291101488), (8.1026752808, -7.321530623))
        make_face()
        with BuildLine():
            ThreePointArc((11.1797734412, -0.3169069604), (11.1791613128, -0.2008619253), (11.1773249957, -0.0848298055))
            ThreePointArc((11.1773249957, -0.0848298055), (10.6247367801, -3.1503590378), (9.2349654007, -5.9380747197))
            Line((9.2349654007, -5.9380747197), (10.1041084384, -5.0611218442))
            ThreePointArc((10.1041084384, -5.0611218442), (10.9074871997, -2.7492222186), (11.1797734412, -0.3169069604))
        make_face()
        with BuildLine():
            ThreePointArc((-11.9049976409, 0.0903524443), (-11.833081188, 1.0610901318), (-11.6833149714, 2.0228976565))
            Line((-11.6833149714, 2.0228976565), (-11.7489151685, 2.2634127141))
            ThreePointArc((-11.7489151685, 2.2634127141), (-11.8759986025, 1.1804050896), (-11.9049976409, 0.0903524443))
        make_face()
        with BuildLine():
            Line((-10.3919691545, -3.3563573203), (-10.9851179751, -2.8606235198))
            ThreePointArc((-10.9851179751, -2.8606235198), (-10.3523534934, -4.6058692317), (-9.4351143079, -6.2198536681))
            Line((-9.4351143079, -6.2198536681), (-9.7600062572, -5.0286772803))
            ThreePointArc((-9.7600062572, -5.0286772803), (-10.1100176265, -4.2053770686), (-10.3919691545, -3.3563573203))
        make_face()
        with BuildLine():
            Line((-9.0329015858, -7.6945171633), (-10.1266632902, -6.6402695335))
            ThreePointArc((-10.1266632902, -6.6402695335), (-9.5275626565, -7.5262882248), (-8.8525103113, -8.3558995928))
            Line((-8.8525103113, -8.3558995928), (-9.0329015858, -7.6945171633))
        make_face()
        with BuildLine():
            Line((11.1800981262, -3.9754636615), (10.9828153628, -4.1745191439))
            ThreePointArc((10.9828153628, -4.1745191439), (9.6864815652, -6.7194826211), (7.8293850735, -8.8893934571))
            Line((7.8293850735, -8.8893934571), (7.7959316544, -9.0813153449))
            ThreePointArc((7.7959316544, -9.0813153449), (9.4839425885, -7.4143177078), (10.8139737491, -5.4498128981))
            Line((10.8139737491, -5.4498128981), (11.1800981262, -3.9754636615))
        make_face()
        with BuildLine():
            Line((11.6626764745, -3.4885490204), (11.1800981262, -3.9754636615))
            Line((11.1800981262, -3.9754636615), (10.8139737491, -5.4498128981))
            ThreePointArc((10.8139737491, -5.4498128981), (11.2817381271, -4.4879671843), (11.6626764745, -3.4885490204))
        make_face()
        with BuildLine():
            Line((4.2583312258, 9.9842953506), (6.3257916804, 9.4402202667))
            ThreePointArc((6.3257916804, 9.4402202667), (4.7330404653, 10.3296972758), (3.0151863487, 10.9437029899))
            Line((3.0151863487, 10.9437029899), (2.2892938737, 10.6778879433))
            ThreePointArc((2.2892938737, 10.6778879433), (3.2903038639, 10.3779087754), (4.2583312258, 9.9842953506))
        make_face()
        with BuildLine():
            ThreePointArc((12.2714049411, -0.3169069604), (12.2708871547, -0.2050074672), (12.2693338398, -0.0931175575))
            ThreePointArc((12.2693338398, -0.0931175575), (12.087697795, -1.8125759558), (11.6626764745, -3.4885490204))
            Line((11.6626764745, -3.4885490204), (11.9140229769, -3.2349439997))
            ThreePointArc((11.9140229769, -3.2349439997), (12.1817268997, -1.786827199), (12.2714049411, -0.3169069604))
        make_face()
        with BuildLine():
            Line((4.0897767259, -11.1294963939), (5.0125747281, -10.1984064277))
            ThreePointArc((5.0125747281, -10.1984064277), (-0.3974988939, -11.3017490918), (-5.6621272644, -9.6374324899))
            ThreePointArc((-5.6621272644, -9.6374324899), (-7.7490437951, -8.1499089094), (-9.4351143079, -6.2198536681))
            Line((-9.4351143079, -6.2198536681), (-9.1066473086, -7.4241375373))
            ThreePointArc((-9.1066473086, -7.4241375373), (-7.5163167375, -9.0080900384), (-5.6606273112, -10.2708147133))
            ThreePointArc((-5.6606273112, -10.2708147133), (-0.8761965812, -11.7308713099), (4.0897767259, -11.1294963939))
        make_face()
        with BuildLine():
            ThreePointArc((-9.4351143079, -6.2198536681), (-10.3523534934, -4.6058692317), (-10.9851179751, -2.8606235198))
            Line((-10.9851179751, -2.8606235198), (-11.6131330948, -2.3357496411))
            ThreePointArc((-11.6131330948, -2.3357496411), (-10.6624834328, -5.0289977982), (-9.1066473086, -7.4241375373))
            Line((-9.1066473086, -7.4241375373), (-9.4351143079, -6.2198536681))
        make_face()
        with BuildLine():
            ThreePointArc((-10.0931729928, -3.6060810855), (-10.2730604705, -3.0973265194), (-10.4277813138, -2.5803621359))
            Line((-10.4277813138, -2.5803621359), (-10.1642111321, -3.546709802))
            Line((-10.1642111321, -3.546709802), (-10.0931729928, -3.6060810855))
        make_face()
        with BuildLine():
            ThreePointArc((-2.8101661632, 11.8444486132), (-1.7541754707, 12.0142554091), (-0.6873104589, 12.0900824316))
            Line((-0.6873104589, 12.0900824316), (0.4028900985, 12.4038021196))
            ThreePointArc((0.4028900985, 12.4038021196), (-1.3937676775, 12.3023204147), (-3.1554678048, 11.9353185591))
            Line((-3.1554678048, 11.9353185591), (-2.8101661632, 11.8444486132))
        make_face()
        with BuildLine():
            ThreePointArc((-6.0540247496, 10.6721135715), (-4.4741120735, 11.3745413416), (-2.8101661632, 11.8444486132))
            Line((-2.8101661632, 11.8444486132), (-3.1554678048, 11.9353185591))
            ThreePointArc((-3.1554678048, 11.9353185591), (-4.6462138612, 11.3988678062), (-6.0540247496, 10.6721135715))
        make_face()
        with BuildLine():
            Line((-6.5153292279, 10.4129926365), (-6.4261851171, 10.4386450381))
            ThreePointArc((-6.4261851171, 10.4386450381), (-6.241165359, 10.5570696756), (-6.0540247496, 10.6721135715))
            ThreePointArc((-6.0540247496, 10.6721135715), (-6.2860944668, 10.5450765934), (-6.5153292279, 10.4129926365))
        make_face()
        with BuildLine():
            ThreePointArc((6.5174877996, -8.6799706946), (7.3423807057, -8.03844112), (8.1026752808, -7.321530623))
            Line((8.1026752808, -7.321530623), (8.1536463545, -7.0291101488))
            Line((8.1536463545, -7.0291101488), (7.4485499862, -7.7405422847))
            Line((7.4485499862, -7.7405422847), (6.5174877996, -8.6799706946))
        make_face()
        with BuildLine():
            Line((10.1041084384, -5.0611218442), (9.2349654007, -5.9380747197))
            ThreePointArc((9.2349654007, -5.9380747197), (8.6969721872, -6.652843563), (8.1026752808, -7.321530623))
            Line((8.1026752808, -7.321530623), (7.9699316263, -8.0830794701))
            ThreePointArc((7.9699316263, -8.0830794701), (9.1649765079, -6.6624664984), (10.1041084384, -5.0611218442))
        make_face()
        with BuildLine():
            ThreePointArc((-6.0644728036, 10.0376544095), (-4.0430764441, 11.0133662568), (-1.8761680541, 11.5986566812))
            Line((-1.8761680541, 11.5986566812), (-2.1471965404, 11.6699808248))
            Line((-2.1471965404, 11.6699808248), (-6.4261851171, 10.4386450381))
            ThreePointArc((-6.4261851171, 10.4386450381), (-6.563670604, 10.3475310465), (-6.699900485, 10.2545501984))
            Line((-6.699900485, 10.2545501984), (-6.0644728036, 10.0376544095))
        make_face()
        with BuildLine():
            ThreePointArc((12.2693338398, -0.0931175575), (12.2632732081, 0.1264729123), (12.2532243427, 0.3459170418))
            Line((12.2532243427, 0.3459170418), (11.1800981262, -3.9754636615))
            Line((11.1800981262, -3.9754636615), (11.6626764745, -3.4885490204))
            ThreePointArc((11.6626764745, -3.4885490204), (12.087697795, -1.8125759558), (12.2693338398, -0.0931175575))
        make_face()
        with BuildLine():
            ThreePointArc((-0.6689941305, 11.2809755123), (1.1873769855, 11.2683357301), (3.0151863487, 10.9437029899))
            Line((3.0151863487, 10.9437029899), (3.7837480213, 11.2251430982))
            ThreePointArc((3.7837480213, 11.2251430982), (0.9760018676, 11.7484804193), (-1.8761680541, 11.5986566812))
            Line((-1.8761680541, 11.5986566812), (-0.6689941305, 11.2809755123))
        make_face()
        with BuildLine():
            Line((2.9792313185, 10.3209046376), (4.2583312258, 9.9842953506))
            ThreePointArc((4.2583312258, 9.9842953506), (3.2903038639, 10.3779087754), (2.2892938737, 10.6778879433))
            Line((2.2892938737, 10.6778879433), (2.0105647776, 10.5758199508))
            Line((2.0105647776, 10.5758199508), (2.9792313185, 10.3209046376))
        make_face()
        with BuildLine():
            ThreePointArc((6.0307463325, 10.2648541669), (6.8354716039, 9.717203848), (7.5935382455, 9.1065987374))
            Line((7.5935382455, 9.1065987374), (7.8346304939, 9.0431526458))
            ThreePointArc((7.8346304939, 9.0431526458), (6.9602600956, 9.6947139402), (6.0307463325, 10.2648541669))
        make_face()
        with BuildLine():
            Line((12.2306512187, 0.6750089237), (11.7251001149, 0.2331603037))
            ThreePointArc((11.7251001149, 0.2331603037), (11.726746492, 0.1179679372), (11.727295301, 0.0027651132))
            ThreePointArc((11.727295301, 0.0027651132), (11.5397204119, -2.1187882177), (10.9828153628, -4.1745191439))
            Line((10.9828153628, -4.1745191439), (11.1800981262, -3.9754636615))
            Line((11.1800981262, -3.9754636615), (12.2532243427, 0.3459170418))
            ThreePointArc((12.2532243427, 0.3459170418), (12.2430600547, 0.5105399619), (12.2306512187, 0.6750089237))
        make_face()
    extrude(amount=F1_DEPTH)


solid = f1.part
